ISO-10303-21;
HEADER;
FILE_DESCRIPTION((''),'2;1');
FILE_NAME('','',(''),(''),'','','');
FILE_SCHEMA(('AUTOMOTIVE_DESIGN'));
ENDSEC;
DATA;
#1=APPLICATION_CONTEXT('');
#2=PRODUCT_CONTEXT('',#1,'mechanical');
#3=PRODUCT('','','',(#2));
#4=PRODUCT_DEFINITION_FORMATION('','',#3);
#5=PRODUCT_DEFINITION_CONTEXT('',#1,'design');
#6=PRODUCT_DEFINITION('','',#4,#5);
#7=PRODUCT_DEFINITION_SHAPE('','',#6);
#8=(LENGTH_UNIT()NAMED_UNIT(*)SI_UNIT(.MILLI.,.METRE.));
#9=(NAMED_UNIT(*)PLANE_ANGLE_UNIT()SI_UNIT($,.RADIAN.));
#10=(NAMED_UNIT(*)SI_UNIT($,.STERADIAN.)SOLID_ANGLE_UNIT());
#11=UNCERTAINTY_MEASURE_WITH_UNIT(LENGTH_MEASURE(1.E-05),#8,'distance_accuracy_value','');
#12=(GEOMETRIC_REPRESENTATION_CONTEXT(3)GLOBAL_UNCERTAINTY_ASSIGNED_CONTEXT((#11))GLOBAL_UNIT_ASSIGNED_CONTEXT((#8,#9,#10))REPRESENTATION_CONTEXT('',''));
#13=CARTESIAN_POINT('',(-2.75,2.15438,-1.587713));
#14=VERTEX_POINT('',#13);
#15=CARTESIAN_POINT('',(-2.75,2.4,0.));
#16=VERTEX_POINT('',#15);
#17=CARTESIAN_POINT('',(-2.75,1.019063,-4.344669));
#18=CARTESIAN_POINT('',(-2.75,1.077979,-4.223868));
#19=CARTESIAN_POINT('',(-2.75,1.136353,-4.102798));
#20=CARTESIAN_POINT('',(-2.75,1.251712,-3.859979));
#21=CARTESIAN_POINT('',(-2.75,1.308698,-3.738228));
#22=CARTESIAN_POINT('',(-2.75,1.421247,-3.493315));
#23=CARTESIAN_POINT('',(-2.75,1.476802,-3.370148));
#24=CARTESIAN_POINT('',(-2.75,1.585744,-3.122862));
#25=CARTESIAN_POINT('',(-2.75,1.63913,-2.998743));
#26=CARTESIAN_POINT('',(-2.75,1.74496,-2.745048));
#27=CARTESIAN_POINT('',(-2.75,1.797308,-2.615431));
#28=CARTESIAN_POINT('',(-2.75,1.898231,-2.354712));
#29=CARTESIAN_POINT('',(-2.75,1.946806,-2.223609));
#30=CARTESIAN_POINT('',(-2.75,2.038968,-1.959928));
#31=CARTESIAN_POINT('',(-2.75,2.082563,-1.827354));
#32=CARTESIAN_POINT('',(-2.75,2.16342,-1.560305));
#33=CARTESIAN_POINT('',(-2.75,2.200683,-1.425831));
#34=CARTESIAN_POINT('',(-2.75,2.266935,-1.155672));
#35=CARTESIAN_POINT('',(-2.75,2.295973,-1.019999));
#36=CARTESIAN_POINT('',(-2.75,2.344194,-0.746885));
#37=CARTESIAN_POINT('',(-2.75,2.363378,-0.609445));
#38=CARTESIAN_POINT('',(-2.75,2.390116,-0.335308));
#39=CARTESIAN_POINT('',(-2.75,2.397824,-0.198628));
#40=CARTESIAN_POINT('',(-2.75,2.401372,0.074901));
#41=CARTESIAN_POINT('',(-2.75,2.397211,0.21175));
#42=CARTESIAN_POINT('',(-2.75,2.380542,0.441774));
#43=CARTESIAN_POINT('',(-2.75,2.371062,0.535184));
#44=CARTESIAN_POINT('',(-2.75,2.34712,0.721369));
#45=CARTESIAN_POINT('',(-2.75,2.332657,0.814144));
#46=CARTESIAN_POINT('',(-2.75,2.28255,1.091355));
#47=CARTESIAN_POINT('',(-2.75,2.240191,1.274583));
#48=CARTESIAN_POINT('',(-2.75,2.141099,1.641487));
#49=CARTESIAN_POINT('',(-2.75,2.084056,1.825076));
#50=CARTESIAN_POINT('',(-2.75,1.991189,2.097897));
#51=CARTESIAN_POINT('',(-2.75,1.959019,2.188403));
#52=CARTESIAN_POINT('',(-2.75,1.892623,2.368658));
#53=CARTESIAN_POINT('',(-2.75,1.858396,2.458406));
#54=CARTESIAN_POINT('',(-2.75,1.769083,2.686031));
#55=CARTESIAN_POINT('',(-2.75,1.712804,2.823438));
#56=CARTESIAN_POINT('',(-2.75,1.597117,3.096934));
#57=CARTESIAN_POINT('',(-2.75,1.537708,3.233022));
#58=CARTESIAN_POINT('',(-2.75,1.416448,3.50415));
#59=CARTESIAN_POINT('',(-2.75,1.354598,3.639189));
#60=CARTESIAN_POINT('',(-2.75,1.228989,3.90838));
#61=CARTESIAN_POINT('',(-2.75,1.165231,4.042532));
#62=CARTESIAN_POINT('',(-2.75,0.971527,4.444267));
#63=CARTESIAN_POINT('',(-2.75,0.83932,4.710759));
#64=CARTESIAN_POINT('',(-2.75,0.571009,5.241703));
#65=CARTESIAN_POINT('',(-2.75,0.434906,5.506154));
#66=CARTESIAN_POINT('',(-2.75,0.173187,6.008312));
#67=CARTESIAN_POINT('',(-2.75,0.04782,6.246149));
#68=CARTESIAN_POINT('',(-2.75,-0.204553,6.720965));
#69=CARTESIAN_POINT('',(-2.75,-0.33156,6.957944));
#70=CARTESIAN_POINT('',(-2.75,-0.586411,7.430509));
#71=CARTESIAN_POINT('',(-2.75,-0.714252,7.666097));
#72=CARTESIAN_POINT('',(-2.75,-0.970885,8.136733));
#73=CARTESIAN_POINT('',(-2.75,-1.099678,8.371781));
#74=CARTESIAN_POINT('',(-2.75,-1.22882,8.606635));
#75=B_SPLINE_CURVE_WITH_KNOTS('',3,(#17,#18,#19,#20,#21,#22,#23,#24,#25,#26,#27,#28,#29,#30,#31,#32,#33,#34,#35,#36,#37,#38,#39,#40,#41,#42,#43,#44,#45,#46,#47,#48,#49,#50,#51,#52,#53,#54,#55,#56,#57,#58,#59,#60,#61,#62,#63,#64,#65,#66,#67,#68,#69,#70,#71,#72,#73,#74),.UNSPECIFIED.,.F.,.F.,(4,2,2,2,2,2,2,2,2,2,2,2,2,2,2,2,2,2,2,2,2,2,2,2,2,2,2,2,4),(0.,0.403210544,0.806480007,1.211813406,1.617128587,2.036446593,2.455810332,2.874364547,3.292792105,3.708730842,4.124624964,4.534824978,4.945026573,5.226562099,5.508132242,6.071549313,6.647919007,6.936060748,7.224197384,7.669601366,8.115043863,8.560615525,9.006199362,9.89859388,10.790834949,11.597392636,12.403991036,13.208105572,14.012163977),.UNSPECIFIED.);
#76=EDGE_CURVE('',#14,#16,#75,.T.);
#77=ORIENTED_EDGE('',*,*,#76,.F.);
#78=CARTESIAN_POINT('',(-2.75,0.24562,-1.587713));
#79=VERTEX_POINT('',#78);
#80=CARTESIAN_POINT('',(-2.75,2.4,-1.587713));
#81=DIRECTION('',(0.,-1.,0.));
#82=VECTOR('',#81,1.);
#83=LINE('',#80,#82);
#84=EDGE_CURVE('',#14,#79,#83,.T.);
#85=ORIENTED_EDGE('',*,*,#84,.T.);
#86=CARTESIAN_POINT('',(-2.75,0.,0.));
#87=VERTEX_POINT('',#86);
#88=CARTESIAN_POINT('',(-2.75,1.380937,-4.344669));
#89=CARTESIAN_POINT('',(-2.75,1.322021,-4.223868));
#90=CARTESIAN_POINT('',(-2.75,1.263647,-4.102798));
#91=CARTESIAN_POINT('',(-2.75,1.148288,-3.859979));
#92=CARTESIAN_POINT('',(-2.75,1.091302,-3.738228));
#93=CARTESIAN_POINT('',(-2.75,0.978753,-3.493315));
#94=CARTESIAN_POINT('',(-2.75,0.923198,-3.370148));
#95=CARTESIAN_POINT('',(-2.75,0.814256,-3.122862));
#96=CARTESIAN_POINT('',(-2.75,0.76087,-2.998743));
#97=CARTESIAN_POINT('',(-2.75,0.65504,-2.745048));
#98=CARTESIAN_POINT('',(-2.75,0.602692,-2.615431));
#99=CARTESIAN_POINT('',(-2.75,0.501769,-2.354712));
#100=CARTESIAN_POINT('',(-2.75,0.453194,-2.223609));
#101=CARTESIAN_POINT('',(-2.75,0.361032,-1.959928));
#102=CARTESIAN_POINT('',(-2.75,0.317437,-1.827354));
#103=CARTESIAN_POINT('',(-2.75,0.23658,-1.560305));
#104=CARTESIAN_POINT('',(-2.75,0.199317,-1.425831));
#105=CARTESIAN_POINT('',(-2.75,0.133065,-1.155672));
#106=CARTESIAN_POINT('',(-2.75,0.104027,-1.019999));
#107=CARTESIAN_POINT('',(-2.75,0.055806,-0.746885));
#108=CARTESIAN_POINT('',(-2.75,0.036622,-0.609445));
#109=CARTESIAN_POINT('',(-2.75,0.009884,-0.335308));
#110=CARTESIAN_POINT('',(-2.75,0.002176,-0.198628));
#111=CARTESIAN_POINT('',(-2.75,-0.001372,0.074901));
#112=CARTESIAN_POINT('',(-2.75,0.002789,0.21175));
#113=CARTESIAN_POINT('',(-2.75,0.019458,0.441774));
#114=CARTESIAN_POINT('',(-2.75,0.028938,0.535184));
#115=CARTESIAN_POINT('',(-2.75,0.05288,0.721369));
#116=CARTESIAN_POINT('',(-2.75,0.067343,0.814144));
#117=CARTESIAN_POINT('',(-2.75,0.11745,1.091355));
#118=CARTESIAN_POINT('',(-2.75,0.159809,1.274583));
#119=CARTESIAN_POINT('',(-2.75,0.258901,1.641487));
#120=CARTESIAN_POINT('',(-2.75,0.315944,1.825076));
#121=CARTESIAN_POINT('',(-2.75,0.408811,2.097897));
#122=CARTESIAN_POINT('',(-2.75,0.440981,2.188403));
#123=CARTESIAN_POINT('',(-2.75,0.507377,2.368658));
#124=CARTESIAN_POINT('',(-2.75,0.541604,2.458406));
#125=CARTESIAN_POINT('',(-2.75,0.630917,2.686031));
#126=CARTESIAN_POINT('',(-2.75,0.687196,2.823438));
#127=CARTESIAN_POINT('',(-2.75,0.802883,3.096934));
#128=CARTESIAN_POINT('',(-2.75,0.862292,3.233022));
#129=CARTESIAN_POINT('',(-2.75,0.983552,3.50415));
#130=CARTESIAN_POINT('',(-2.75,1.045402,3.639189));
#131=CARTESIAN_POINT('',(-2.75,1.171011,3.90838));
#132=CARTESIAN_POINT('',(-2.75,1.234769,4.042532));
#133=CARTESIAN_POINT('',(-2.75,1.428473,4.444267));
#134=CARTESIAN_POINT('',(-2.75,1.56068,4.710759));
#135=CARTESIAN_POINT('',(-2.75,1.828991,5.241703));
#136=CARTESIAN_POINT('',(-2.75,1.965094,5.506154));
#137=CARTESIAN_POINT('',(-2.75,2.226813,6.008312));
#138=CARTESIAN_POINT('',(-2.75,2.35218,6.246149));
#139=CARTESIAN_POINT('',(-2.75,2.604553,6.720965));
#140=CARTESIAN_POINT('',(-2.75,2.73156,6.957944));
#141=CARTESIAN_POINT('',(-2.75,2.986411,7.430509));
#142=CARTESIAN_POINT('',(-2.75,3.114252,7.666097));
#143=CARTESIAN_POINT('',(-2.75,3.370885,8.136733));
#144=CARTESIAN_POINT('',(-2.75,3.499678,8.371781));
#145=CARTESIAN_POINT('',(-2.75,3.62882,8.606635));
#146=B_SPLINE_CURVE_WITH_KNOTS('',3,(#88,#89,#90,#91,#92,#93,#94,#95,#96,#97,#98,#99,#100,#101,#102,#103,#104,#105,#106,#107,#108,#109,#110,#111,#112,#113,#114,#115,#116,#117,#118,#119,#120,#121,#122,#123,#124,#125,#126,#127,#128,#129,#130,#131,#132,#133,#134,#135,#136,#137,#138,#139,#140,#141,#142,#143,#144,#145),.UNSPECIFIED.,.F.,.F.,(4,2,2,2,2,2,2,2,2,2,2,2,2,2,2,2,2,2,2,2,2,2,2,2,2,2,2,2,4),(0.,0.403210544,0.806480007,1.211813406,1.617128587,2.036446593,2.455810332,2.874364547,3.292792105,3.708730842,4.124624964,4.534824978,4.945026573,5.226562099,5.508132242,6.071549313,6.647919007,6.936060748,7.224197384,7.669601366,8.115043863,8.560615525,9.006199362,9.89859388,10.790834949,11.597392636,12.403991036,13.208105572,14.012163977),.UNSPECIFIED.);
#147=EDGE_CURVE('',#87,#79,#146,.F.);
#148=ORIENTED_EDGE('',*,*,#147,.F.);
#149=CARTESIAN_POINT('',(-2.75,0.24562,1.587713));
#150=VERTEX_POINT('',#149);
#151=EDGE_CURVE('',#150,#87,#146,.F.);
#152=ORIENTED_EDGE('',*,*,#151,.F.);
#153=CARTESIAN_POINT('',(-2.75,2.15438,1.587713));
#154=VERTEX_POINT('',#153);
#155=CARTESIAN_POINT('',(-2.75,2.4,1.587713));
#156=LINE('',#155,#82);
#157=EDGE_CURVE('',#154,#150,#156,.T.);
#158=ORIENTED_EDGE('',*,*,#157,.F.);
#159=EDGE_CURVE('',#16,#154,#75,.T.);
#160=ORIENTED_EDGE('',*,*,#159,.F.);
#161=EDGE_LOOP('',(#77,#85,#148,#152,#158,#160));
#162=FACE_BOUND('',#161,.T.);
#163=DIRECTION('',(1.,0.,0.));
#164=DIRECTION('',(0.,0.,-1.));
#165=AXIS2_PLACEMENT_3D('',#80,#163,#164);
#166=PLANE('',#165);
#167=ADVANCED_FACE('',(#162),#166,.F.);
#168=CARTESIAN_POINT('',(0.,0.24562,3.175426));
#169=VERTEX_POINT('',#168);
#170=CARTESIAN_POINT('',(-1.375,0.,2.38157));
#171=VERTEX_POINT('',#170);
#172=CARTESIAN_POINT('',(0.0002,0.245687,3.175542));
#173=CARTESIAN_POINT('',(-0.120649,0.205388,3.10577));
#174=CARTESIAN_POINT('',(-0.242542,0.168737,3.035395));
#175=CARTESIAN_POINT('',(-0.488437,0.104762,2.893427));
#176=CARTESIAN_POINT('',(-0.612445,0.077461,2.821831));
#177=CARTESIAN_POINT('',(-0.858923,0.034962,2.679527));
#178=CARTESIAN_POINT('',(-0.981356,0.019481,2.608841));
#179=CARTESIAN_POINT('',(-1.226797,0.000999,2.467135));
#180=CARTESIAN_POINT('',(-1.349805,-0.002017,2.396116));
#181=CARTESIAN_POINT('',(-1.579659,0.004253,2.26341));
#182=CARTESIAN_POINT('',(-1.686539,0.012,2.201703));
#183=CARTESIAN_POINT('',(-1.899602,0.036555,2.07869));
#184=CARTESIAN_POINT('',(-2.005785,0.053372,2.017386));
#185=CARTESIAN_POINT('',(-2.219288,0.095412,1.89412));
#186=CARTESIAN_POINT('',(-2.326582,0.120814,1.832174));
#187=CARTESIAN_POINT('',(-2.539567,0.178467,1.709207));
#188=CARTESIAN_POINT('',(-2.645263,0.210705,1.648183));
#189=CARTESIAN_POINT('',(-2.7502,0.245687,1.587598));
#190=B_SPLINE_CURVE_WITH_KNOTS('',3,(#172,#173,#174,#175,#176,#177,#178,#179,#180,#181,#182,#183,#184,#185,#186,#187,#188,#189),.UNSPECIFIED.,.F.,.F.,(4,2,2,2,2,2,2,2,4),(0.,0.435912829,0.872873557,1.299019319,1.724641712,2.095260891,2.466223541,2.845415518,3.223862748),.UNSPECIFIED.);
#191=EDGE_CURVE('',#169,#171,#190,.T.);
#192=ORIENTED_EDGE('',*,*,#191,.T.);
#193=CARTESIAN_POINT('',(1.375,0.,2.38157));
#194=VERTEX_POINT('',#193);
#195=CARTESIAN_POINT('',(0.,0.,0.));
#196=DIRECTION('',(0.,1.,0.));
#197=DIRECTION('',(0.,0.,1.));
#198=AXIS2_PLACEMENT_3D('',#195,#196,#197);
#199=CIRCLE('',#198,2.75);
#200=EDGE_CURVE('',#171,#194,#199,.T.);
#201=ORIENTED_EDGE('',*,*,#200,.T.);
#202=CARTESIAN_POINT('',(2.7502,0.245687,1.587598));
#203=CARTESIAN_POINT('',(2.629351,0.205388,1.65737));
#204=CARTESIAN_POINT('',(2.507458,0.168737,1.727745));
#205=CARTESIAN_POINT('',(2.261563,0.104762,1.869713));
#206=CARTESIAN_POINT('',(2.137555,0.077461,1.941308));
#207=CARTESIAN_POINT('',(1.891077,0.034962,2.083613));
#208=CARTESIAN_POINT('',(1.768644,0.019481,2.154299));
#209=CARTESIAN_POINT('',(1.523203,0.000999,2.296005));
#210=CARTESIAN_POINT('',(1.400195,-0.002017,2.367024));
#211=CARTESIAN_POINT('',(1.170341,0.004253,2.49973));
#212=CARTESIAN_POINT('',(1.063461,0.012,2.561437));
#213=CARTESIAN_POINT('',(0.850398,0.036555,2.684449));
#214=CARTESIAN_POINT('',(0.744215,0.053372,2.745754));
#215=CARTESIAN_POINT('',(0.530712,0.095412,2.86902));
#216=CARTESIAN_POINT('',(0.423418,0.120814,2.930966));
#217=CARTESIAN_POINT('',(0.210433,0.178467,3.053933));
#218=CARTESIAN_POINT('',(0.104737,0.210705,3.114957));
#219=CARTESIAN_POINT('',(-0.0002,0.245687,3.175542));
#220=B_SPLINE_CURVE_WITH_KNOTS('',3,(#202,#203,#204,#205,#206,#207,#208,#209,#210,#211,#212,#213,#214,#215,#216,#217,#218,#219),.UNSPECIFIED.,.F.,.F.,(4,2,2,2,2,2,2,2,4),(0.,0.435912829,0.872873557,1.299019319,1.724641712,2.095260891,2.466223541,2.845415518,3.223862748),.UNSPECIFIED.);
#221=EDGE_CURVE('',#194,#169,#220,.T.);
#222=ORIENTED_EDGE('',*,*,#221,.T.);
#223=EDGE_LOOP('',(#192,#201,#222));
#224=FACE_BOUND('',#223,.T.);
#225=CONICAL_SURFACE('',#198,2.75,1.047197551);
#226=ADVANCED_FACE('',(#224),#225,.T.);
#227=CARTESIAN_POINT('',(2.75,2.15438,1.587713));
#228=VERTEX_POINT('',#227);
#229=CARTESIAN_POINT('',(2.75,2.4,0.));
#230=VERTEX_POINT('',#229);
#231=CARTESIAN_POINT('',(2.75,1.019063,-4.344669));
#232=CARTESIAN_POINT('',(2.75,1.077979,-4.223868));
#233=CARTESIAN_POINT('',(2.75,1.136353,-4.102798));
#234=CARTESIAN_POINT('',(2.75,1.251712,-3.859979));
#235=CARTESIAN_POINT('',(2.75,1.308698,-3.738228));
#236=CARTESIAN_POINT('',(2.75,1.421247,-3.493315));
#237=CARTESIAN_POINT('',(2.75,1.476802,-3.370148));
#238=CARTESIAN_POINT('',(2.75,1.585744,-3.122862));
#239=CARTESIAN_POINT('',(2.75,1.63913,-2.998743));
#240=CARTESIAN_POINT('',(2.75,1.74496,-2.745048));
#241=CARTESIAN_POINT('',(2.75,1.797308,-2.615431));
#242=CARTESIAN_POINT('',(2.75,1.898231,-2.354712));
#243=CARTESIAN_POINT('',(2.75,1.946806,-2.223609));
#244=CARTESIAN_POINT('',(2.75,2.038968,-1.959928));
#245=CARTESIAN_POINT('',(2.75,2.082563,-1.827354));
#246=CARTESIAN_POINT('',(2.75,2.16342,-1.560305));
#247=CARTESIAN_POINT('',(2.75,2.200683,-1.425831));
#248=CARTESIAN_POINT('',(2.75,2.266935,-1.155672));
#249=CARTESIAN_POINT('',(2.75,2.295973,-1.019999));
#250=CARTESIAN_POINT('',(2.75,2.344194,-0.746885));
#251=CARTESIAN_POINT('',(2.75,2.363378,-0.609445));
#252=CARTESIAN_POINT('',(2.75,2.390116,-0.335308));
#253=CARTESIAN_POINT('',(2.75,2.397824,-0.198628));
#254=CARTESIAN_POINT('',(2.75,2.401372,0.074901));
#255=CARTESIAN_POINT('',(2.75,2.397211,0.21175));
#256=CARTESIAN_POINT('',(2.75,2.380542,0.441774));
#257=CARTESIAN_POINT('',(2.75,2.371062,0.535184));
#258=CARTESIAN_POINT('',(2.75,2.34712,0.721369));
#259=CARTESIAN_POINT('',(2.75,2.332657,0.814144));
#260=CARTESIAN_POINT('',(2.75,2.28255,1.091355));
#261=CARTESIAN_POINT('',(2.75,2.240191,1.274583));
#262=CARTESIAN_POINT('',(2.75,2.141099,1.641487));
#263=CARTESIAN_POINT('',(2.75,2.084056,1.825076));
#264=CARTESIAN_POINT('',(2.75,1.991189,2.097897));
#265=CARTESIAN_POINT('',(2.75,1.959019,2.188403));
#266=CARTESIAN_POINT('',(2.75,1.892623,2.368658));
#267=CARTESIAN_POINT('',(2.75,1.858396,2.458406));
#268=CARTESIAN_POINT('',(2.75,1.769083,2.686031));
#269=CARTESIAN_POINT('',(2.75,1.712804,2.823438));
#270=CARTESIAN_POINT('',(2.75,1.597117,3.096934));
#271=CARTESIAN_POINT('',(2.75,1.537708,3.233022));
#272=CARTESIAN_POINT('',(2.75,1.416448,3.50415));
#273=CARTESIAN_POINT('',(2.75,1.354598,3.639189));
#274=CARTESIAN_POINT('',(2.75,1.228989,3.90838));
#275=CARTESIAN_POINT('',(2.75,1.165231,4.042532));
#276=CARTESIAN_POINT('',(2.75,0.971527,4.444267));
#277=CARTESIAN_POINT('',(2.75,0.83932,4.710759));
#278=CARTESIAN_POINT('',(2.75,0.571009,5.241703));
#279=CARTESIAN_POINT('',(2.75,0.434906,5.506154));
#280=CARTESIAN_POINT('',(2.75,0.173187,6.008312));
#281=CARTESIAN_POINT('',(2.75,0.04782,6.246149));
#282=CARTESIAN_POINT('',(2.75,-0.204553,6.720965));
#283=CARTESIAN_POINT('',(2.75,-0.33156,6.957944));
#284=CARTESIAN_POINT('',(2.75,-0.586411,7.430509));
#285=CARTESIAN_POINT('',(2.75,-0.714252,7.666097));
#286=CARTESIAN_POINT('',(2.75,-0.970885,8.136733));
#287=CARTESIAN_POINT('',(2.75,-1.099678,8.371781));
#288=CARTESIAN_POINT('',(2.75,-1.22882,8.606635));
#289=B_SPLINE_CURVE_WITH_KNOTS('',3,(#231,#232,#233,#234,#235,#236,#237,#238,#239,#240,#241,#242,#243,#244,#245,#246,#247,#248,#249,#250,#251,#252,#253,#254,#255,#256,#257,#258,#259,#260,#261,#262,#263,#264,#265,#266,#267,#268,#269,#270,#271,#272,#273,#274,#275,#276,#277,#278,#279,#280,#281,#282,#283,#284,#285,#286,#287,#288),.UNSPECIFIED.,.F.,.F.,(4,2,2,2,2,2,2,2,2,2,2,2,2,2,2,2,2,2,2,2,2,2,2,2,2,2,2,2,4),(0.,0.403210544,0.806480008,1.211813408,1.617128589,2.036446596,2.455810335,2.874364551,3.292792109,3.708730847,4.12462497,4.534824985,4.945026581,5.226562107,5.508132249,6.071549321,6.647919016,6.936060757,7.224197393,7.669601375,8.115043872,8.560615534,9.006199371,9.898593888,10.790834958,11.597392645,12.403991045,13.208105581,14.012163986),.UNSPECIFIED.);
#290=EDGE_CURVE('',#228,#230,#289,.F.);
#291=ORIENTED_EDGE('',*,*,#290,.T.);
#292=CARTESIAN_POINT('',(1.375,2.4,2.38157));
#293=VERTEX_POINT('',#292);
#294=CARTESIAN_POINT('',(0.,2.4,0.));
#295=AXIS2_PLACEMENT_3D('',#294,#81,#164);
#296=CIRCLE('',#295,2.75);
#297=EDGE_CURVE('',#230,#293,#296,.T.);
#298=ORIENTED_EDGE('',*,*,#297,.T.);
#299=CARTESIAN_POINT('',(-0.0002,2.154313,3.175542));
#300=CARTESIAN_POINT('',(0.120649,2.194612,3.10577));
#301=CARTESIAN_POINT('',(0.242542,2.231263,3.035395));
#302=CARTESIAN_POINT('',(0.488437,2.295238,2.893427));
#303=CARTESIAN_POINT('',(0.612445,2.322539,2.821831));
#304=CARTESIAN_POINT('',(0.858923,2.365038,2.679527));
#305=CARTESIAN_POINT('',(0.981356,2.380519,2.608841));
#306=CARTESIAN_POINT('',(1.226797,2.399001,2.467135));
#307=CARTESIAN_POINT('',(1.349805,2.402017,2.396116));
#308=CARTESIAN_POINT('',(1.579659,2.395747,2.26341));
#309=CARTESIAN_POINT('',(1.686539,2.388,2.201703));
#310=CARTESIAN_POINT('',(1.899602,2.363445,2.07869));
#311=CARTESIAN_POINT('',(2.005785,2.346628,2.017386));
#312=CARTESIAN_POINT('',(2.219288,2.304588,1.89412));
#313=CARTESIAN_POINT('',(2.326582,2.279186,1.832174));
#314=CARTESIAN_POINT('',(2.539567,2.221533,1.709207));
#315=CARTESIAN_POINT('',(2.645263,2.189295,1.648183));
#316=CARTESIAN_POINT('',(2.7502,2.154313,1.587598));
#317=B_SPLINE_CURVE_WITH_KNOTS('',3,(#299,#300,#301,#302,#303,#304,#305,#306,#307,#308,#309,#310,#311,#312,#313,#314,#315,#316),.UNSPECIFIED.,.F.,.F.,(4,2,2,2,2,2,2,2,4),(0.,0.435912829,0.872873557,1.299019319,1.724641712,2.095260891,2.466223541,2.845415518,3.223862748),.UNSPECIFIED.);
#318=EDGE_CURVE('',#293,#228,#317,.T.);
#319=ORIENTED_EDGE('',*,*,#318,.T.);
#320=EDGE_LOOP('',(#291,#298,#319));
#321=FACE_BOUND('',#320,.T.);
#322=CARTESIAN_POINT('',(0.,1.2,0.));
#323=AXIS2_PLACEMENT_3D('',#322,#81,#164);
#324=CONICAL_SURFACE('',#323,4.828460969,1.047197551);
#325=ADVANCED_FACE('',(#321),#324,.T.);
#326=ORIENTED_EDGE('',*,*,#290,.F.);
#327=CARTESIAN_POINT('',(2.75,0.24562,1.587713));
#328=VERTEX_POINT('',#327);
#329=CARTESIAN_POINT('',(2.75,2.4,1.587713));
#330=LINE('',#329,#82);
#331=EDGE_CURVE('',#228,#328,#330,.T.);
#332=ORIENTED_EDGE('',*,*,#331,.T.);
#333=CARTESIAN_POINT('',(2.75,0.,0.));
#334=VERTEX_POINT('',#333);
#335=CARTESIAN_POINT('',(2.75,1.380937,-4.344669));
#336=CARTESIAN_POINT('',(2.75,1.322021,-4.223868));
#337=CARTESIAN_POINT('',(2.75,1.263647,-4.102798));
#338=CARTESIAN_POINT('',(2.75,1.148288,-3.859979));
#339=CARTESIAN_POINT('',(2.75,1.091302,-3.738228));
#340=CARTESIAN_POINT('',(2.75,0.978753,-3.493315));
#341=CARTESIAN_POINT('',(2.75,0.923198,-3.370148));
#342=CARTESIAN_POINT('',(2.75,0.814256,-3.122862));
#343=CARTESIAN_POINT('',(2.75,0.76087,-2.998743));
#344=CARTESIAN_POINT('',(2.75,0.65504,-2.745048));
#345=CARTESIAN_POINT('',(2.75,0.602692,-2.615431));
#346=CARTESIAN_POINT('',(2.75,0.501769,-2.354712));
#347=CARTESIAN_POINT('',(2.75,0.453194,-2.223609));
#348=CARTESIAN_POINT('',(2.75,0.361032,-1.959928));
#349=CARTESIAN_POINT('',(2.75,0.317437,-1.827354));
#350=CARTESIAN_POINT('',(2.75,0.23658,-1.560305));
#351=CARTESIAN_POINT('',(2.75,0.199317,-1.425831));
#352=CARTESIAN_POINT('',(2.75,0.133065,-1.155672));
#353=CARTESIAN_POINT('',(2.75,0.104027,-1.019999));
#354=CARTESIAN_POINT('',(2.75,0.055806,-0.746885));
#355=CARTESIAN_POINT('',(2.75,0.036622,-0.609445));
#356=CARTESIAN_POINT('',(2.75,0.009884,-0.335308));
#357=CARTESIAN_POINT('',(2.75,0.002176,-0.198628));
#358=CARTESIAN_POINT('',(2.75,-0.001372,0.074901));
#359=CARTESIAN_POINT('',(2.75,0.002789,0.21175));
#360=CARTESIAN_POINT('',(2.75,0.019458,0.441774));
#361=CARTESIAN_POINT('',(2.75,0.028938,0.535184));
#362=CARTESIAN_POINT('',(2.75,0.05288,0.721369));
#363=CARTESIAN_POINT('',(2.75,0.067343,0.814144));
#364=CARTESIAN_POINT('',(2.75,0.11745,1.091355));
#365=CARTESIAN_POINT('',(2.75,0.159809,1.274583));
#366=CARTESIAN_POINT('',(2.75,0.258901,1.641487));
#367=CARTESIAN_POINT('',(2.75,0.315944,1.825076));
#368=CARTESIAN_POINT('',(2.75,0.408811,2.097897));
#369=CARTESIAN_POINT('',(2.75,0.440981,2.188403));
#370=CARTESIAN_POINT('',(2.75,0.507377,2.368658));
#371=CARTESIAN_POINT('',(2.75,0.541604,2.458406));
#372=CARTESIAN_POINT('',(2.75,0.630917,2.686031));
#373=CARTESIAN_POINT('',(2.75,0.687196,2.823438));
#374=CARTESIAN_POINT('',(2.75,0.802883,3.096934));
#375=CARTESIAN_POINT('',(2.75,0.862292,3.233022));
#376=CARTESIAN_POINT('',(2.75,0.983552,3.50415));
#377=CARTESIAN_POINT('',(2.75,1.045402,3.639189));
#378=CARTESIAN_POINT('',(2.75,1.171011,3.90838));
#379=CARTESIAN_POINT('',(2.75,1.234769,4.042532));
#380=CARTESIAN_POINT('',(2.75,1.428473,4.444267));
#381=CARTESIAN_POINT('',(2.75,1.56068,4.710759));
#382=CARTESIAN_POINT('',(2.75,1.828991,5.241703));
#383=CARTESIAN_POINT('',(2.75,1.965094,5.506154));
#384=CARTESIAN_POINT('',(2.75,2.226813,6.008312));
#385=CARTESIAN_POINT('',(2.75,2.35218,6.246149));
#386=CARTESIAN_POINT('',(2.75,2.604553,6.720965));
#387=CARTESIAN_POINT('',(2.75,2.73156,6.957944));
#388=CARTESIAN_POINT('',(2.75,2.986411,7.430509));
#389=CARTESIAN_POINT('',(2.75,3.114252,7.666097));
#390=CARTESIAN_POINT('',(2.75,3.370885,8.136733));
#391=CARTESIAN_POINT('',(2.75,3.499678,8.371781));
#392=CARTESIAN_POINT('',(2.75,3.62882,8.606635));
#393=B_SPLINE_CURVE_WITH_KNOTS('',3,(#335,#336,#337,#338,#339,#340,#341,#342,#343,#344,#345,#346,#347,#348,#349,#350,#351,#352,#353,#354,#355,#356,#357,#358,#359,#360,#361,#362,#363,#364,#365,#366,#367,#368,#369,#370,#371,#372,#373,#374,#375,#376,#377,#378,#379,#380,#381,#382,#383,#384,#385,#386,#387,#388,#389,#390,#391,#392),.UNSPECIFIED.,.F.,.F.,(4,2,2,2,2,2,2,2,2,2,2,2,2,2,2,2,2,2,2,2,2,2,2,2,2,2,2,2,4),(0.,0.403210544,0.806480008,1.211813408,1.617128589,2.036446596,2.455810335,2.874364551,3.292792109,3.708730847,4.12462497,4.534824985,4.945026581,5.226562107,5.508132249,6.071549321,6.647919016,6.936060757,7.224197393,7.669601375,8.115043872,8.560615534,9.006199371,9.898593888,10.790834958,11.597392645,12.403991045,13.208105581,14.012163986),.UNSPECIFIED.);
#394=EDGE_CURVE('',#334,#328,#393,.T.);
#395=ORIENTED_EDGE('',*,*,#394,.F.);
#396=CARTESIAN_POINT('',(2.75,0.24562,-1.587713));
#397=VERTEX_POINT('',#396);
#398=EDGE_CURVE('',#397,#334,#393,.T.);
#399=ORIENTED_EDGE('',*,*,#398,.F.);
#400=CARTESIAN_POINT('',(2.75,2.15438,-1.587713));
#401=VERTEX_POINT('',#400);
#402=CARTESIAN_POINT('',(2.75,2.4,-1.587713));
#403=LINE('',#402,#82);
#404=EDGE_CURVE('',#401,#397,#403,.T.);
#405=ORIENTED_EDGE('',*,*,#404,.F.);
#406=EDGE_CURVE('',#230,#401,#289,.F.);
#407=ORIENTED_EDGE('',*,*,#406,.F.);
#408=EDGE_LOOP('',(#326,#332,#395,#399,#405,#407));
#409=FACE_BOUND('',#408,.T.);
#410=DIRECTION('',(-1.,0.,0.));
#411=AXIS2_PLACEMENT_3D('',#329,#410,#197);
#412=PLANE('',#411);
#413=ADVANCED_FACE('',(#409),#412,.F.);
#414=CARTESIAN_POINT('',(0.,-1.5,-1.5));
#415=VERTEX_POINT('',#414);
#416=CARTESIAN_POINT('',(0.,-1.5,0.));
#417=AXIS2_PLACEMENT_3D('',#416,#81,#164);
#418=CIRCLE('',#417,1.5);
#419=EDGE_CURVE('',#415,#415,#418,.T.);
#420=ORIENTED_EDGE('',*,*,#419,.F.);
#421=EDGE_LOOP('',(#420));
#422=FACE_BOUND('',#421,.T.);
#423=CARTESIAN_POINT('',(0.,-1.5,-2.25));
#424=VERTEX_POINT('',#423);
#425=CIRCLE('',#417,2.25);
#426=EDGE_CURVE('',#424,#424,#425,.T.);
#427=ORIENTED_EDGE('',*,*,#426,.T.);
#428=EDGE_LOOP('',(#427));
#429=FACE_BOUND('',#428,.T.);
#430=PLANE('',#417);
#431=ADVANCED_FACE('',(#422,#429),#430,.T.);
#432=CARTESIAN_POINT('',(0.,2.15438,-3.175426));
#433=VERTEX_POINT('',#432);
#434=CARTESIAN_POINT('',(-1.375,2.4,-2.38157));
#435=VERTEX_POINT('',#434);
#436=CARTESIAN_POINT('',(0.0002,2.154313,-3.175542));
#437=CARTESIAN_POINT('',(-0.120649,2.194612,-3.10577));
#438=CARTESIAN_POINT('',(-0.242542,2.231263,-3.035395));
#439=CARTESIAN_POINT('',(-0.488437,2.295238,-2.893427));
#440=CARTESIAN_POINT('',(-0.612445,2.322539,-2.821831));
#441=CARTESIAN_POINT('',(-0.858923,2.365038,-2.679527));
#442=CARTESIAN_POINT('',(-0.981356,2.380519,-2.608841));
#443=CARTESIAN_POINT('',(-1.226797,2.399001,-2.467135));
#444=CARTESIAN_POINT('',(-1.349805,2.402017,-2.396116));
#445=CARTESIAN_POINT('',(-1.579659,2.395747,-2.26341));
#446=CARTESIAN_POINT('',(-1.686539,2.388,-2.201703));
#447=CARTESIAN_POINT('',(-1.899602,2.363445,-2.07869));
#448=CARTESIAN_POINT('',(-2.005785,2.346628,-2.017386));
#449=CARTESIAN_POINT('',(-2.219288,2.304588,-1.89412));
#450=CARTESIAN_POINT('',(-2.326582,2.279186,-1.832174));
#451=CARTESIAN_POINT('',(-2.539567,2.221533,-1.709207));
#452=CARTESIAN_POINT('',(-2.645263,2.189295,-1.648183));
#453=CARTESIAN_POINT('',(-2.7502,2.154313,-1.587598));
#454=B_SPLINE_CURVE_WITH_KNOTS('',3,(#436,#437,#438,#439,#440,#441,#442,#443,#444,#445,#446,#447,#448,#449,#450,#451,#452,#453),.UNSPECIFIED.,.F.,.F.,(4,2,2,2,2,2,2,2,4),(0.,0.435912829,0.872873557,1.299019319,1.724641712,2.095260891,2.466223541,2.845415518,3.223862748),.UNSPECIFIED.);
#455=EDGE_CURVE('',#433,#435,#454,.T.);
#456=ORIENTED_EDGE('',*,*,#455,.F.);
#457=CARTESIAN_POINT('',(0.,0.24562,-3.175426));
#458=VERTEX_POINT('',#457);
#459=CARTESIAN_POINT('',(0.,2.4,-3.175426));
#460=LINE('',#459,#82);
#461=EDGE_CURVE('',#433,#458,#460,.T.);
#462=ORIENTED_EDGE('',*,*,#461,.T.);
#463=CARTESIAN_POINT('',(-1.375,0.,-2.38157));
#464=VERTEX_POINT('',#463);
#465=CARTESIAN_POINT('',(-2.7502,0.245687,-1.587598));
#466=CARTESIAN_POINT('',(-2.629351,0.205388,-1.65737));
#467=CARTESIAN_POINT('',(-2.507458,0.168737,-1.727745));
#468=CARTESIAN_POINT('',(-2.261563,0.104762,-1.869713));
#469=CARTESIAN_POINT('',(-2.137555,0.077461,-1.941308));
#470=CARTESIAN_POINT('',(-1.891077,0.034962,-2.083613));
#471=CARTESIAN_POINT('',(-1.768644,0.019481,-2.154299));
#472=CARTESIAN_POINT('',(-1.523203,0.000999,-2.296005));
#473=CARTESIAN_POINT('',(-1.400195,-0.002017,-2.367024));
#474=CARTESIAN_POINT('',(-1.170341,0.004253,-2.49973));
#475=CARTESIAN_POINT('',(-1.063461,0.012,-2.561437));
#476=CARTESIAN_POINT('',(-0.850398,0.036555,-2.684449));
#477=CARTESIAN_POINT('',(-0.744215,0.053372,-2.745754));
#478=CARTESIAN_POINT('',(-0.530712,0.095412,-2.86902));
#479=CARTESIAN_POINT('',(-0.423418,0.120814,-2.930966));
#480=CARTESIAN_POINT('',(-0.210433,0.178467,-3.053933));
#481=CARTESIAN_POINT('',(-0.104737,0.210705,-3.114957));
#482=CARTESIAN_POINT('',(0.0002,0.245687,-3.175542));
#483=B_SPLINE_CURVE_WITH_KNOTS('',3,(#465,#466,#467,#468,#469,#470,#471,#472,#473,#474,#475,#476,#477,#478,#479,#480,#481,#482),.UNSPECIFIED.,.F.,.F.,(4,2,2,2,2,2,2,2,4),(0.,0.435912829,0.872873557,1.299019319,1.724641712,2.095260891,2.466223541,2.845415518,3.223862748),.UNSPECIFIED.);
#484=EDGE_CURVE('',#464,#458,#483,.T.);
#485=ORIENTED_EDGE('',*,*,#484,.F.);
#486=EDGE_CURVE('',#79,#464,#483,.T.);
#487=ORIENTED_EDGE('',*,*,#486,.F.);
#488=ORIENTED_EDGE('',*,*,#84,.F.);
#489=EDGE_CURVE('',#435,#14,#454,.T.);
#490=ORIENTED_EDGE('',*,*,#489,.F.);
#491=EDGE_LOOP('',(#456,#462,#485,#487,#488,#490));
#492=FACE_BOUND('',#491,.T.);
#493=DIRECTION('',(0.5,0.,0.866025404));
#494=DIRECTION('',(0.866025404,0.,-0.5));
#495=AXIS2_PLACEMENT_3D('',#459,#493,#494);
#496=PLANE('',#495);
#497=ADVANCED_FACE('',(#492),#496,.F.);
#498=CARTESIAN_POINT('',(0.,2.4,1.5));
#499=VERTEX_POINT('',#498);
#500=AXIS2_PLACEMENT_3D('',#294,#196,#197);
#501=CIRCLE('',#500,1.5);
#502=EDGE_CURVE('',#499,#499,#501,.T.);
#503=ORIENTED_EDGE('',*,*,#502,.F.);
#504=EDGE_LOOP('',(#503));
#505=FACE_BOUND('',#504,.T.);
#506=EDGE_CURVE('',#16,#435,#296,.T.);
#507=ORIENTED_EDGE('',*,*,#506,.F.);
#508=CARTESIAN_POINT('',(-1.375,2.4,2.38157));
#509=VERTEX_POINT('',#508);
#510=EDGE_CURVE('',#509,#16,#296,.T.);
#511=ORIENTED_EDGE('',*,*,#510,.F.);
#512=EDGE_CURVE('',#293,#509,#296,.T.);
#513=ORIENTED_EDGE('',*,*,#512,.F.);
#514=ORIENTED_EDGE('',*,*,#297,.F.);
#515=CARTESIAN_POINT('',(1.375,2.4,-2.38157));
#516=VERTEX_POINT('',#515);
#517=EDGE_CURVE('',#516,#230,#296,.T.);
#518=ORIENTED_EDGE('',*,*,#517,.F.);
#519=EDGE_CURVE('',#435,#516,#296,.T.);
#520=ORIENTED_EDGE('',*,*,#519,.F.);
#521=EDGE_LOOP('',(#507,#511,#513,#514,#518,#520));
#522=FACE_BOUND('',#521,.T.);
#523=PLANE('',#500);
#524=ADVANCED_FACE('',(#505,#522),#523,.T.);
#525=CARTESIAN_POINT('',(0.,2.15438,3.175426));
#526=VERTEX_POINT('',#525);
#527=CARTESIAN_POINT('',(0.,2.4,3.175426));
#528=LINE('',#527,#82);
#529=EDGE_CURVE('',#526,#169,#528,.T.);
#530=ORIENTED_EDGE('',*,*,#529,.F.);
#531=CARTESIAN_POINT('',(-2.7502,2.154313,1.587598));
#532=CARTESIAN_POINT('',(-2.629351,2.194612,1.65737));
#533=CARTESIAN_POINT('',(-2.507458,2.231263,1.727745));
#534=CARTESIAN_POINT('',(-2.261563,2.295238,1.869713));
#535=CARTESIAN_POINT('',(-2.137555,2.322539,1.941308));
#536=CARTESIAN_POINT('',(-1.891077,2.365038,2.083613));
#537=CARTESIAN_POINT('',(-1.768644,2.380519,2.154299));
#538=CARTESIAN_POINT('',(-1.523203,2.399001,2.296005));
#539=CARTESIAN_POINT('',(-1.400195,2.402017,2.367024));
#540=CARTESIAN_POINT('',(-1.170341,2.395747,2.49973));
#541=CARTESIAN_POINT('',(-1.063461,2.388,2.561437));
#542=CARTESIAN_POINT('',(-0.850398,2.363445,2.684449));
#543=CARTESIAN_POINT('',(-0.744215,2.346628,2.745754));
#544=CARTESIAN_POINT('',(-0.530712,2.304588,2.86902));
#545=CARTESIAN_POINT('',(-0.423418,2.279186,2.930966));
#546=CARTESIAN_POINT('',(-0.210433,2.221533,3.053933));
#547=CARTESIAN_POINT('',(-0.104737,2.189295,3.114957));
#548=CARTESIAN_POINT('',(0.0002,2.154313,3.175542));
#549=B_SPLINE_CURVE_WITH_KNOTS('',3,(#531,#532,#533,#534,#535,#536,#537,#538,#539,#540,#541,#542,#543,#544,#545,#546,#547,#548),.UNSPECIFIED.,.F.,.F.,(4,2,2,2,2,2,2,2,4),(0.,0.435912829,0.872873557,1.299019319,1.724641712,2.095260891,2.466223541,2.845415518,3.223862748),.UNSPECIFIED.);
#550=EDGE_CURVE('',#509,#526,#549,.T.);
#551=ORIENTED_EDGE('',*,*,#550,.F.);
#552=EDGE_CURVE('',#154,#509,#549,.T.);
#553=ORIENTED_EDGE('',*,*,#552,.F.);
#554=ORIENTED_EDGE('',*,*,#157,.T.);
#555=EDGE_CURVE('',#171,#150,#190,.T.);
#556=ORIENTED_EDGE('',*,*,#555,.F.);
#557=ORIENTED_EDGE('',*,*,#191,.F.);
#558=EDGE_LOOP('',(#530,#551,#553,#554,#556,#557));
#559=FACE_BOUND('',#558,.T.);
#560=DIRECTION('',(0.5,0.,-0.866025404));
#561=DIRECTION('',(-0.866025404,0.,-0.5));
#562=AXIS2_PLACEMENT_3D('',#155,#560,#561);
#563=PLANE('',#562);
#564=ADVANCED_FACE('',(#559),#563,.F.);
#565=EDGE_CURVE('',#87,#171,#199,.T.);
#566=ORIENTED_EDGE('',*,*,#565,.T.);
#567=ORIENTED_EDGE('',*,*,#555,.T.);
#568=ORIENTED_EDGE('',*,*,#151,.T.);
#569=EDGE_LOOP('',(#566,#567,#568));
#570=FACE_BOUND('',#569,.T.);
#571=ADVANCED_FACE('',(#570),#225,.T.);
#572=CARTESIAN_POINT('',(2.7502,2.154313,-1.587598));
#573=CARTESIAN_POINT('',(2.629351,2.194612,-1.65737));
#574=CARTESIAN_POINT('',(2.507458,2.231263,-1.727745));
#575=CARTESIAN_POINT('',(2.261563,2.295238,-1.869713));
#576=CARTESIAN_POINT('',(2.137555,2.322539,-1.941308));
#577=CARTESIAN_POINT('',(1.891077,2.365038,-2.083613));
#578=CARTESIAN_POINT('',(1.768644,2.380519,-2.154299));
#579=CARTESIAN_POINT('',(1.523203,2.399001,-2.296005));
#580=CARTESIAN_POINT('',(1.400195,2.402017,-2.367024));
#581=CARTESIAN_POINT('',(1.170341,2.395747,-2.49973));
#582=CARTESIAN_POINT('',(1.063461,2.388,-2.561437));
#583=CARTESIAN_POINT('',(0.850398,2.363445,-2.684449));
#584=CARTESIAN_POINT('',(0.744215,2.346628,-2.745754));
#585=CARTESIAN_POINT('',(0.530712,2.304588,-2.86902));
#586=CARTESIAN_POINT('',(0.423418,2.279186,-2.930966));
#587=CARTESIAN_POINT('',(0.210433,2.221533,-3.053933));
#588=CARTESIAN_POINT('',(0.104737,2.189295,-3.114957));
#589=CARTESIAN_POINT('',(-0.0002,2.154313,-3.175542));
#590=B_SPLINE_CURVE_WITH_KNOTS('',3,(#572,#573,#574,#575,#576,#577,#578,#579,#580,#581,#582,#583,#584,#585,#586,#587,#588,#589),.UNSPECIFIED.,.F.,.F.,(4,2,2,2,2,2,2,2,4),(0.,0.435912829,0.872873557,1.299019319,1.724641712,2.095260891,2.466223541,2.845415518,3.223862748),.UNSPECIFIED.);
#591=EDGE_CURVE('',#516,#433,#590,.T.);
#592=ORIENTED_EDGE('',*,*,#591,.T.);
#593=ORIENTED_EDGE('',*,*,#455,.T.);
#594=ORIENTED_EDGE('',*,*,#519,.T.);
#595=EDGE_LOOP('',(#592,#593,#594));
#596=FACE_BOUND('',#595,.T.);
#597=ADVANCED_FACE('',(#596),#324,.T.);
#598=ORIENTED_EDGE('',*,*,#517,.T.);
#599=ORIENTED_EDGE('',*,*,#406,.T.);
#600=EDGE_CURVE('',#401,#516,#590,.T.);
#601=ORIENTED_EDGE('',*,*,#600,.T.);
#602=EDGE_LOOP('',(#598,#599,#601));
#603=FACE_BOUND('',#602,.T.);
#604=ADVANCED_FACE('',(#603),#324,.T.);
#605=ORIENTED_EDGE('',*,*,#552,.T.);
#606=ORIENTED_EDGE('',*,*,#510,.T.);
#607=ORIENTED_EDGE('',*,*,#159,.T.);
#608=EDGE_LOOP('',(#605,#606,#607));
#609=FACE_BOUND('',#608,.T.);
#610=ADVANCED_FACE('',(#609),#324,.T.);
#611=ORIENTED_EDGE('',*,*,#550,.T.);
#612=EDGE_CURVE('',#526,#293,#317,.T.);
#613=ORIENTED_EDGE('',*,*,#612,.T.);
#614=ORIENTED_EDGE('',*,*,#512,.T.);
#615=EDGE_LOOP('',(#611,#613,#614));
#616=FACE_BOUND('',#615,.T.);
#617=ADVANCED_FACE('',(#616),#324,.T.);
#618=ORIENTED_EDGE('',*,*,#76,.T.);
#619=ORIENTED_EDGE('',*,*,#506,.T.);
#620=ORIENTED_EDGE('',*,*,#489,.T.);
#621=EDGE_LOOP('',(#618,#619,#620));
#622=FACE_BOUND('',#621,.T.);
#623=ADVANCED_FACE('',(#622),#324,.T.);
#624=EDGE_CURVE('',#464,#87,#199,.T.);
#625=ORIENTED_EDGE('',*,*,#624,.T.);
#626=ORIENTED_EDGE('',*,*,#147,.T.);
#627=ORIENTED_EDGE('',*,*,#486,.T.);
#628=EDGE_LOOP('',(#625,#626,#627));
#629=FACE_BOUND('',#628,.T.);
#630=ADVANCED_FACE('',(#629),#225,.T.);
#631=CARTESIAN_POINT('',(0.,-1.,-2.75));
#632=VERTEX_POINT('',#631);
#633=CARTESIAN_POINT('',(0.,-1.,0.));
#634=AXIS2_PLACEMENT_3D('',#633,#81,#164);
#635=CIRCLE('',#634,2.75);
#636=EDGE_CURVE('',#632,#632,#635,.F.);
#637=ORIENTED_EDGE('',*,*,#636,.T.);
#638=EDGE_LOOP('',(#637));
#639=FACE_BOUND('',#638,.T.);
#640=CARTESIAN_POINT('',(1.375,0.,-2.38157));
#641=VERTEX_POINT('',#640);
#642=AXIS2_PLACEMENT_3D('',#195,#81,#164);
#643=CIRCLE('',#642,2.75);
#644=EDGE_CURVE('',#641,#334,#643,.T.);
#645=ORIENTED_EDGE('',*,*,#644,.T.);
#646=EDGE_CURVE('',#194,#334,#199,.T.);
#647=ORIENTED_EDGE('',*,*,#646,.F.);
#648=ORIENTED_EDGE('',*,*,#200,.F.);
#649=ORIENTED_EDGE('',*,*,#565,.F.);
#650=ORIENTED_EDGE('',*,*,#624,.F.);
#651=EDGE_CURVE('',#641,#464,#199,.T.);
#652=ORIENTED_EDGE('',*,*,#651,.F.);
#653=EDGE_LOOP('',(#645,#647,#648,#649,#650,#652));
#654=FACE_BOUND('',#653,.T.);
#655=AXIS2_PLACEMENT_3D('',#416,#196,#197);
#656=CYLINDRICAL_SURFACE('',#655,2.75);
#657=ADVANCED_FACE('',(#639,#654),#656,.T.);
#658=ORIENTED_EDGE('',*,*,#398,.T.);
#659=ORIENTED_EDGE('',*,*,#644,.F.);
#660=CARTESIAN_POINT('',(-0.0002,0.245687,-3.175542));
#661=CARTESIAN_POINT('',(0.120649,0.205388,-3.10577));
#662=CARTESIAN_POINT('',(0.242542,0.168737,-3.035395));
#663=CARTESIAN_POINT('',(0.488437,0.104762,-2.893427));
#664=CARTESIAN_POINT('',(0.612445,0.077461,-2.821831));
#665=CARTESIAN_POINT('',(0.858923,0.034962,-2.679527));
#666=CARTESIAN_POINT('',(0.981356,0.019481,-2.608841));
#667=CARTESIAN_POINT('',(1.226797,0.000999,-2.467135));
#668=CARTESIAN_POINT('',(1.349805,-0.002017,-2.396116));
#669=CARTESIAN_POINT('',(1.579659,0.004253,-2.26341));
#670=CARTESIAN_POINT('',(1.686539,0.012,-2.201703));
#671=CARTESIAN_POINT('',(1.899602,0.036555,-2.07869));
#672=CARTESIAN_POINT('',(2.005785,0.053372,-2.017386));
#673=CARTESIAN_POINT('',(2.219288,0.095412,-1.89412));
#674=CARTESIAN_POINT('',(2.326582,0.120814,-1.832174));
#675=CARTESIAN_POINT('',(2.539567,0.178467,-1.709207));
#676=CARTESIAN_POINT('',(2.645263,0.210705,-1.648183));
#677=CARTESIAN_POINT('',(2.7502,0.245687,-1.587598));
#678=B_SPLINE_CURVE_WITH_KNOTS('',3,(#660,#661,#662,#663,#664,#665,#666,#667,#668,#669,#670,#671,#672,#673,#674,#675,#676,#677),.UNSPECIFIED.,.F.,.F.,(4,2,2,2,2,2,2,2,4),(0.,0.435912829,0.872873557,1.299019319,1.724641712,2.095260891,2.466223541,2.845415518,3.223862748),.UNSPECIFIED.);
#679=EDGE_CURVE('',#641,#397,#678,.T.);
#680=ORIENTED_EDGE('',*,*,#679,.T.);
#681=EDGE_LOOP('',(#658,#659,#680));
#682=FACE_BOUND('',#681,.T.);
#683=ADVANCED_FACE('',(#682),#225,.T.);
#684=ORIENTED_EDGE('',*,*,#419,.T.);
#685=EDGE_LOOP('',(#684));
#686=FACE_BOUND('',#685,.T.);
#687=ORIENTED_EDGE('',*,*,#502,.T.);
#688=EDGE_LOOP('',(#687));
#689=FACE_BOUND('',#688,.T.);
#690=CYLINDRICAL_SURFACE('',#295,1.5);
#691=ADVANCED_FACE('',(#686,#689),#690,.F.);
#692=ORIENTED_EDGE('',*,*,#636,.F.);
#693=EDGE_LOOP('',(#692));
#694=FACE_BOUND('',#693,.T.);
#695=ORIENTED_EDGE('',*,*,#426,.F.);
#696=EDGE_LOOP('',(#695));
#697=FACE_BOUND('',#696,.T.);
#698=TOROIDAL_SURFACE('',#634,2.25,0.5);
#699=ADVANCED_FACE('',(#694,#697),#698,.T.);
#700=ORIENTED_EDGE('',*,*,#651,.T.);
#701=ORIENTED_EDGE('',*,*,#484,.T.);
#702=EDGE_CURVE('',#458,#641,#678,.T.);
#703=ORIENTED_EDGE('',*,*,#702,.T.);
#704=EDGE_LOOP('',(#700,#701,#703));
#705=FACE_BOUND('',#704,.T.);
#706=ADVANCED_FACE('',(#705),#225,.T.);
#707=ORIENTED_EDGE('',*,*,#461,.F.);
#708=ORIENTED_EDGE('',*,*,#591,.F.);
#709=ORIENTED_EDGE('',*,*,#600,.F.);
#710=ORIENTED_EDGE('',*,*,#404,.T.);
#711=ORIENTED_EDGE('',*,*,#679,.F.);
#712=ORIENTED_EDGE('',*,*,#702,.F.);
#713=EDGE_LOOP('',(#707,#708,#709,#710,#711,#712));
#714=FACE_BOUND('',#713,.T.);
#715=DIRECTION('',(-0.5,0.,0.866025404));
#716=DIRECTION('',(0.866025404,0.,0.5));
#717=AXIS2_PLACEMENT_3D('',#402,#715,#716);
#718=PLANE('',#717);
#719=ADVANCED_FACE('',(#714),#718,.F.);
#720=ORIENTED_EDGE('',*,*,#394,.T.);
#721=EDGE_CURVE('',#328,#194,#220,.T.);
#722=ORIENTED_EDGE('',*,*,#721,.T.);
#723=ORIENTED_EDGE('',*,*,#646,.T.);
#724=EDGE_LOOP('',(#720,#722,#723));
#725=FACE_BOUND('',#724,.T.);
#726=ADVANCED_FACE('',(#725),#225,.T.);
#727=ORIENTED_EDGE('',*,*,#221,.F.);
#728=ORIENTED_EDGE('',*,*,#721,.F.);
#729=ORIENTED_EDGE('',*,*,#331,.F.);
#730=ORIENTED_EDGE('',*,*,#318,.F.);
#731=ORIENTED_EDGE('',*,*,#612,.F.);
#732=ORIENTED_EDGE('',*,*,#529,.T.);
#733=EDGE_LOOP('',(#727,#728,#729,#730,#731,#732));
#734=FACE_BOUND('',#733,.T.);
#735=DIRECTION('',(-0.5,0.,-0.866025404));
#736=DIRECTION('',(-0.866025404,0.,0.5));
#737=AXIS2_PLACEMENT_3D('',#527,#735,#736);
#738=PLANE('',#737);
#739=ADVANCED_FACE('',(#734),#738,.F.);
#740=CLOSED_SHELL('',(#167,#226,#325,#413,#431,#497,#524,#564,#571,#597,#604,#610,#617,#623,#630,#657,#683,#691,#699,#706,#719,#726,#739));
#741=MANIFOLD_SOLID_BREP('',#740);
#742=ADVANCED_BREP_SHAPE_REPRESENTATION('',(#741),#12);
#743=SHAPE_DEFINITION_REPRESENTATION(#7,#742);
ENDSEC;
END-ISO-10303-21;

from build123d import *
from build123d.topology import SkipClean

# Parameters (mm, degrees)
SKETCH_1_R      = 1.5
EXTRUDE_2_DEPTH = 2.4
EXTRUDE_START   = 1.5
SKETCH_3_R      = 2.75
SKETCH_3_R_2    = 1.5
EXTRUDE_3_DEPTH = 1.5
FILLET_1_R      = 0.5


with BuildPart() as part:
    # 草图1 → 凸台-拉伸2 (new body)
    with BuildSketch(Plane(origin=(0, 0, 0), x_dir=(1, 0, 0), z_dir=(0, 1, 0))):
        Polygon((2.75, 1.58771324), (0, 3.175426481), (-2.75, 1.58771324), (-2.75, -1.58771324), (0, -3.175426481), (2.75, -1.58771324), align=None)
        with Locations(Location((0, 0, 0), (0, 0, 270))):
            Circle(SKETCH_1_R, mode=Mode.SUBTRACT)
    extrude(amount=EXTRUDE_2_DEPTH)

    # 草图2 → 切除-旋转1 (revolve, cut)
    with BuildSketch(Plane.XY):
        Polygon((4.828460969, 1.2), (2.75, 2.4), (4.828460969, 2.4), align=None)
        Polygon((2.75, 0), (4.828460969, 1.2), (4.828460969, 0), align=None)
    revolve(axis=Axis((0, 1.981363764, 0), (0, 1, 0)), mode=Mode.SUBTRACT)

    # 草图3 → 凸台-拉伸3 (add)
    with SkipClean():  # the faces are left unmerged after this step: merging them gives an invalid solid
        with BuildSketch(Plane.XZ.offset(EXTRUDE_START)):
            with Locations(Location((0, 0, 0), (0, 0, 60))):
                Circle(SKETCH_3_R)
            with Locations(Location((0, 0, 0), (0, 0, 270))):
                Circle(SKETCH_3_R_2, mode=Mode.SUBTRACT)
        extrude(amount=-EXTRUDE_3_DEPTH)

    # 圆角1
    fillet_1_edges = [part.edges().sort_by_distance(p)[0] for p in [
        (-1.375, -1.5, -2.38156986),
    ]]
    fillet(fillet_1_edges, radius=FILLET_1_R)


solid = part.part
